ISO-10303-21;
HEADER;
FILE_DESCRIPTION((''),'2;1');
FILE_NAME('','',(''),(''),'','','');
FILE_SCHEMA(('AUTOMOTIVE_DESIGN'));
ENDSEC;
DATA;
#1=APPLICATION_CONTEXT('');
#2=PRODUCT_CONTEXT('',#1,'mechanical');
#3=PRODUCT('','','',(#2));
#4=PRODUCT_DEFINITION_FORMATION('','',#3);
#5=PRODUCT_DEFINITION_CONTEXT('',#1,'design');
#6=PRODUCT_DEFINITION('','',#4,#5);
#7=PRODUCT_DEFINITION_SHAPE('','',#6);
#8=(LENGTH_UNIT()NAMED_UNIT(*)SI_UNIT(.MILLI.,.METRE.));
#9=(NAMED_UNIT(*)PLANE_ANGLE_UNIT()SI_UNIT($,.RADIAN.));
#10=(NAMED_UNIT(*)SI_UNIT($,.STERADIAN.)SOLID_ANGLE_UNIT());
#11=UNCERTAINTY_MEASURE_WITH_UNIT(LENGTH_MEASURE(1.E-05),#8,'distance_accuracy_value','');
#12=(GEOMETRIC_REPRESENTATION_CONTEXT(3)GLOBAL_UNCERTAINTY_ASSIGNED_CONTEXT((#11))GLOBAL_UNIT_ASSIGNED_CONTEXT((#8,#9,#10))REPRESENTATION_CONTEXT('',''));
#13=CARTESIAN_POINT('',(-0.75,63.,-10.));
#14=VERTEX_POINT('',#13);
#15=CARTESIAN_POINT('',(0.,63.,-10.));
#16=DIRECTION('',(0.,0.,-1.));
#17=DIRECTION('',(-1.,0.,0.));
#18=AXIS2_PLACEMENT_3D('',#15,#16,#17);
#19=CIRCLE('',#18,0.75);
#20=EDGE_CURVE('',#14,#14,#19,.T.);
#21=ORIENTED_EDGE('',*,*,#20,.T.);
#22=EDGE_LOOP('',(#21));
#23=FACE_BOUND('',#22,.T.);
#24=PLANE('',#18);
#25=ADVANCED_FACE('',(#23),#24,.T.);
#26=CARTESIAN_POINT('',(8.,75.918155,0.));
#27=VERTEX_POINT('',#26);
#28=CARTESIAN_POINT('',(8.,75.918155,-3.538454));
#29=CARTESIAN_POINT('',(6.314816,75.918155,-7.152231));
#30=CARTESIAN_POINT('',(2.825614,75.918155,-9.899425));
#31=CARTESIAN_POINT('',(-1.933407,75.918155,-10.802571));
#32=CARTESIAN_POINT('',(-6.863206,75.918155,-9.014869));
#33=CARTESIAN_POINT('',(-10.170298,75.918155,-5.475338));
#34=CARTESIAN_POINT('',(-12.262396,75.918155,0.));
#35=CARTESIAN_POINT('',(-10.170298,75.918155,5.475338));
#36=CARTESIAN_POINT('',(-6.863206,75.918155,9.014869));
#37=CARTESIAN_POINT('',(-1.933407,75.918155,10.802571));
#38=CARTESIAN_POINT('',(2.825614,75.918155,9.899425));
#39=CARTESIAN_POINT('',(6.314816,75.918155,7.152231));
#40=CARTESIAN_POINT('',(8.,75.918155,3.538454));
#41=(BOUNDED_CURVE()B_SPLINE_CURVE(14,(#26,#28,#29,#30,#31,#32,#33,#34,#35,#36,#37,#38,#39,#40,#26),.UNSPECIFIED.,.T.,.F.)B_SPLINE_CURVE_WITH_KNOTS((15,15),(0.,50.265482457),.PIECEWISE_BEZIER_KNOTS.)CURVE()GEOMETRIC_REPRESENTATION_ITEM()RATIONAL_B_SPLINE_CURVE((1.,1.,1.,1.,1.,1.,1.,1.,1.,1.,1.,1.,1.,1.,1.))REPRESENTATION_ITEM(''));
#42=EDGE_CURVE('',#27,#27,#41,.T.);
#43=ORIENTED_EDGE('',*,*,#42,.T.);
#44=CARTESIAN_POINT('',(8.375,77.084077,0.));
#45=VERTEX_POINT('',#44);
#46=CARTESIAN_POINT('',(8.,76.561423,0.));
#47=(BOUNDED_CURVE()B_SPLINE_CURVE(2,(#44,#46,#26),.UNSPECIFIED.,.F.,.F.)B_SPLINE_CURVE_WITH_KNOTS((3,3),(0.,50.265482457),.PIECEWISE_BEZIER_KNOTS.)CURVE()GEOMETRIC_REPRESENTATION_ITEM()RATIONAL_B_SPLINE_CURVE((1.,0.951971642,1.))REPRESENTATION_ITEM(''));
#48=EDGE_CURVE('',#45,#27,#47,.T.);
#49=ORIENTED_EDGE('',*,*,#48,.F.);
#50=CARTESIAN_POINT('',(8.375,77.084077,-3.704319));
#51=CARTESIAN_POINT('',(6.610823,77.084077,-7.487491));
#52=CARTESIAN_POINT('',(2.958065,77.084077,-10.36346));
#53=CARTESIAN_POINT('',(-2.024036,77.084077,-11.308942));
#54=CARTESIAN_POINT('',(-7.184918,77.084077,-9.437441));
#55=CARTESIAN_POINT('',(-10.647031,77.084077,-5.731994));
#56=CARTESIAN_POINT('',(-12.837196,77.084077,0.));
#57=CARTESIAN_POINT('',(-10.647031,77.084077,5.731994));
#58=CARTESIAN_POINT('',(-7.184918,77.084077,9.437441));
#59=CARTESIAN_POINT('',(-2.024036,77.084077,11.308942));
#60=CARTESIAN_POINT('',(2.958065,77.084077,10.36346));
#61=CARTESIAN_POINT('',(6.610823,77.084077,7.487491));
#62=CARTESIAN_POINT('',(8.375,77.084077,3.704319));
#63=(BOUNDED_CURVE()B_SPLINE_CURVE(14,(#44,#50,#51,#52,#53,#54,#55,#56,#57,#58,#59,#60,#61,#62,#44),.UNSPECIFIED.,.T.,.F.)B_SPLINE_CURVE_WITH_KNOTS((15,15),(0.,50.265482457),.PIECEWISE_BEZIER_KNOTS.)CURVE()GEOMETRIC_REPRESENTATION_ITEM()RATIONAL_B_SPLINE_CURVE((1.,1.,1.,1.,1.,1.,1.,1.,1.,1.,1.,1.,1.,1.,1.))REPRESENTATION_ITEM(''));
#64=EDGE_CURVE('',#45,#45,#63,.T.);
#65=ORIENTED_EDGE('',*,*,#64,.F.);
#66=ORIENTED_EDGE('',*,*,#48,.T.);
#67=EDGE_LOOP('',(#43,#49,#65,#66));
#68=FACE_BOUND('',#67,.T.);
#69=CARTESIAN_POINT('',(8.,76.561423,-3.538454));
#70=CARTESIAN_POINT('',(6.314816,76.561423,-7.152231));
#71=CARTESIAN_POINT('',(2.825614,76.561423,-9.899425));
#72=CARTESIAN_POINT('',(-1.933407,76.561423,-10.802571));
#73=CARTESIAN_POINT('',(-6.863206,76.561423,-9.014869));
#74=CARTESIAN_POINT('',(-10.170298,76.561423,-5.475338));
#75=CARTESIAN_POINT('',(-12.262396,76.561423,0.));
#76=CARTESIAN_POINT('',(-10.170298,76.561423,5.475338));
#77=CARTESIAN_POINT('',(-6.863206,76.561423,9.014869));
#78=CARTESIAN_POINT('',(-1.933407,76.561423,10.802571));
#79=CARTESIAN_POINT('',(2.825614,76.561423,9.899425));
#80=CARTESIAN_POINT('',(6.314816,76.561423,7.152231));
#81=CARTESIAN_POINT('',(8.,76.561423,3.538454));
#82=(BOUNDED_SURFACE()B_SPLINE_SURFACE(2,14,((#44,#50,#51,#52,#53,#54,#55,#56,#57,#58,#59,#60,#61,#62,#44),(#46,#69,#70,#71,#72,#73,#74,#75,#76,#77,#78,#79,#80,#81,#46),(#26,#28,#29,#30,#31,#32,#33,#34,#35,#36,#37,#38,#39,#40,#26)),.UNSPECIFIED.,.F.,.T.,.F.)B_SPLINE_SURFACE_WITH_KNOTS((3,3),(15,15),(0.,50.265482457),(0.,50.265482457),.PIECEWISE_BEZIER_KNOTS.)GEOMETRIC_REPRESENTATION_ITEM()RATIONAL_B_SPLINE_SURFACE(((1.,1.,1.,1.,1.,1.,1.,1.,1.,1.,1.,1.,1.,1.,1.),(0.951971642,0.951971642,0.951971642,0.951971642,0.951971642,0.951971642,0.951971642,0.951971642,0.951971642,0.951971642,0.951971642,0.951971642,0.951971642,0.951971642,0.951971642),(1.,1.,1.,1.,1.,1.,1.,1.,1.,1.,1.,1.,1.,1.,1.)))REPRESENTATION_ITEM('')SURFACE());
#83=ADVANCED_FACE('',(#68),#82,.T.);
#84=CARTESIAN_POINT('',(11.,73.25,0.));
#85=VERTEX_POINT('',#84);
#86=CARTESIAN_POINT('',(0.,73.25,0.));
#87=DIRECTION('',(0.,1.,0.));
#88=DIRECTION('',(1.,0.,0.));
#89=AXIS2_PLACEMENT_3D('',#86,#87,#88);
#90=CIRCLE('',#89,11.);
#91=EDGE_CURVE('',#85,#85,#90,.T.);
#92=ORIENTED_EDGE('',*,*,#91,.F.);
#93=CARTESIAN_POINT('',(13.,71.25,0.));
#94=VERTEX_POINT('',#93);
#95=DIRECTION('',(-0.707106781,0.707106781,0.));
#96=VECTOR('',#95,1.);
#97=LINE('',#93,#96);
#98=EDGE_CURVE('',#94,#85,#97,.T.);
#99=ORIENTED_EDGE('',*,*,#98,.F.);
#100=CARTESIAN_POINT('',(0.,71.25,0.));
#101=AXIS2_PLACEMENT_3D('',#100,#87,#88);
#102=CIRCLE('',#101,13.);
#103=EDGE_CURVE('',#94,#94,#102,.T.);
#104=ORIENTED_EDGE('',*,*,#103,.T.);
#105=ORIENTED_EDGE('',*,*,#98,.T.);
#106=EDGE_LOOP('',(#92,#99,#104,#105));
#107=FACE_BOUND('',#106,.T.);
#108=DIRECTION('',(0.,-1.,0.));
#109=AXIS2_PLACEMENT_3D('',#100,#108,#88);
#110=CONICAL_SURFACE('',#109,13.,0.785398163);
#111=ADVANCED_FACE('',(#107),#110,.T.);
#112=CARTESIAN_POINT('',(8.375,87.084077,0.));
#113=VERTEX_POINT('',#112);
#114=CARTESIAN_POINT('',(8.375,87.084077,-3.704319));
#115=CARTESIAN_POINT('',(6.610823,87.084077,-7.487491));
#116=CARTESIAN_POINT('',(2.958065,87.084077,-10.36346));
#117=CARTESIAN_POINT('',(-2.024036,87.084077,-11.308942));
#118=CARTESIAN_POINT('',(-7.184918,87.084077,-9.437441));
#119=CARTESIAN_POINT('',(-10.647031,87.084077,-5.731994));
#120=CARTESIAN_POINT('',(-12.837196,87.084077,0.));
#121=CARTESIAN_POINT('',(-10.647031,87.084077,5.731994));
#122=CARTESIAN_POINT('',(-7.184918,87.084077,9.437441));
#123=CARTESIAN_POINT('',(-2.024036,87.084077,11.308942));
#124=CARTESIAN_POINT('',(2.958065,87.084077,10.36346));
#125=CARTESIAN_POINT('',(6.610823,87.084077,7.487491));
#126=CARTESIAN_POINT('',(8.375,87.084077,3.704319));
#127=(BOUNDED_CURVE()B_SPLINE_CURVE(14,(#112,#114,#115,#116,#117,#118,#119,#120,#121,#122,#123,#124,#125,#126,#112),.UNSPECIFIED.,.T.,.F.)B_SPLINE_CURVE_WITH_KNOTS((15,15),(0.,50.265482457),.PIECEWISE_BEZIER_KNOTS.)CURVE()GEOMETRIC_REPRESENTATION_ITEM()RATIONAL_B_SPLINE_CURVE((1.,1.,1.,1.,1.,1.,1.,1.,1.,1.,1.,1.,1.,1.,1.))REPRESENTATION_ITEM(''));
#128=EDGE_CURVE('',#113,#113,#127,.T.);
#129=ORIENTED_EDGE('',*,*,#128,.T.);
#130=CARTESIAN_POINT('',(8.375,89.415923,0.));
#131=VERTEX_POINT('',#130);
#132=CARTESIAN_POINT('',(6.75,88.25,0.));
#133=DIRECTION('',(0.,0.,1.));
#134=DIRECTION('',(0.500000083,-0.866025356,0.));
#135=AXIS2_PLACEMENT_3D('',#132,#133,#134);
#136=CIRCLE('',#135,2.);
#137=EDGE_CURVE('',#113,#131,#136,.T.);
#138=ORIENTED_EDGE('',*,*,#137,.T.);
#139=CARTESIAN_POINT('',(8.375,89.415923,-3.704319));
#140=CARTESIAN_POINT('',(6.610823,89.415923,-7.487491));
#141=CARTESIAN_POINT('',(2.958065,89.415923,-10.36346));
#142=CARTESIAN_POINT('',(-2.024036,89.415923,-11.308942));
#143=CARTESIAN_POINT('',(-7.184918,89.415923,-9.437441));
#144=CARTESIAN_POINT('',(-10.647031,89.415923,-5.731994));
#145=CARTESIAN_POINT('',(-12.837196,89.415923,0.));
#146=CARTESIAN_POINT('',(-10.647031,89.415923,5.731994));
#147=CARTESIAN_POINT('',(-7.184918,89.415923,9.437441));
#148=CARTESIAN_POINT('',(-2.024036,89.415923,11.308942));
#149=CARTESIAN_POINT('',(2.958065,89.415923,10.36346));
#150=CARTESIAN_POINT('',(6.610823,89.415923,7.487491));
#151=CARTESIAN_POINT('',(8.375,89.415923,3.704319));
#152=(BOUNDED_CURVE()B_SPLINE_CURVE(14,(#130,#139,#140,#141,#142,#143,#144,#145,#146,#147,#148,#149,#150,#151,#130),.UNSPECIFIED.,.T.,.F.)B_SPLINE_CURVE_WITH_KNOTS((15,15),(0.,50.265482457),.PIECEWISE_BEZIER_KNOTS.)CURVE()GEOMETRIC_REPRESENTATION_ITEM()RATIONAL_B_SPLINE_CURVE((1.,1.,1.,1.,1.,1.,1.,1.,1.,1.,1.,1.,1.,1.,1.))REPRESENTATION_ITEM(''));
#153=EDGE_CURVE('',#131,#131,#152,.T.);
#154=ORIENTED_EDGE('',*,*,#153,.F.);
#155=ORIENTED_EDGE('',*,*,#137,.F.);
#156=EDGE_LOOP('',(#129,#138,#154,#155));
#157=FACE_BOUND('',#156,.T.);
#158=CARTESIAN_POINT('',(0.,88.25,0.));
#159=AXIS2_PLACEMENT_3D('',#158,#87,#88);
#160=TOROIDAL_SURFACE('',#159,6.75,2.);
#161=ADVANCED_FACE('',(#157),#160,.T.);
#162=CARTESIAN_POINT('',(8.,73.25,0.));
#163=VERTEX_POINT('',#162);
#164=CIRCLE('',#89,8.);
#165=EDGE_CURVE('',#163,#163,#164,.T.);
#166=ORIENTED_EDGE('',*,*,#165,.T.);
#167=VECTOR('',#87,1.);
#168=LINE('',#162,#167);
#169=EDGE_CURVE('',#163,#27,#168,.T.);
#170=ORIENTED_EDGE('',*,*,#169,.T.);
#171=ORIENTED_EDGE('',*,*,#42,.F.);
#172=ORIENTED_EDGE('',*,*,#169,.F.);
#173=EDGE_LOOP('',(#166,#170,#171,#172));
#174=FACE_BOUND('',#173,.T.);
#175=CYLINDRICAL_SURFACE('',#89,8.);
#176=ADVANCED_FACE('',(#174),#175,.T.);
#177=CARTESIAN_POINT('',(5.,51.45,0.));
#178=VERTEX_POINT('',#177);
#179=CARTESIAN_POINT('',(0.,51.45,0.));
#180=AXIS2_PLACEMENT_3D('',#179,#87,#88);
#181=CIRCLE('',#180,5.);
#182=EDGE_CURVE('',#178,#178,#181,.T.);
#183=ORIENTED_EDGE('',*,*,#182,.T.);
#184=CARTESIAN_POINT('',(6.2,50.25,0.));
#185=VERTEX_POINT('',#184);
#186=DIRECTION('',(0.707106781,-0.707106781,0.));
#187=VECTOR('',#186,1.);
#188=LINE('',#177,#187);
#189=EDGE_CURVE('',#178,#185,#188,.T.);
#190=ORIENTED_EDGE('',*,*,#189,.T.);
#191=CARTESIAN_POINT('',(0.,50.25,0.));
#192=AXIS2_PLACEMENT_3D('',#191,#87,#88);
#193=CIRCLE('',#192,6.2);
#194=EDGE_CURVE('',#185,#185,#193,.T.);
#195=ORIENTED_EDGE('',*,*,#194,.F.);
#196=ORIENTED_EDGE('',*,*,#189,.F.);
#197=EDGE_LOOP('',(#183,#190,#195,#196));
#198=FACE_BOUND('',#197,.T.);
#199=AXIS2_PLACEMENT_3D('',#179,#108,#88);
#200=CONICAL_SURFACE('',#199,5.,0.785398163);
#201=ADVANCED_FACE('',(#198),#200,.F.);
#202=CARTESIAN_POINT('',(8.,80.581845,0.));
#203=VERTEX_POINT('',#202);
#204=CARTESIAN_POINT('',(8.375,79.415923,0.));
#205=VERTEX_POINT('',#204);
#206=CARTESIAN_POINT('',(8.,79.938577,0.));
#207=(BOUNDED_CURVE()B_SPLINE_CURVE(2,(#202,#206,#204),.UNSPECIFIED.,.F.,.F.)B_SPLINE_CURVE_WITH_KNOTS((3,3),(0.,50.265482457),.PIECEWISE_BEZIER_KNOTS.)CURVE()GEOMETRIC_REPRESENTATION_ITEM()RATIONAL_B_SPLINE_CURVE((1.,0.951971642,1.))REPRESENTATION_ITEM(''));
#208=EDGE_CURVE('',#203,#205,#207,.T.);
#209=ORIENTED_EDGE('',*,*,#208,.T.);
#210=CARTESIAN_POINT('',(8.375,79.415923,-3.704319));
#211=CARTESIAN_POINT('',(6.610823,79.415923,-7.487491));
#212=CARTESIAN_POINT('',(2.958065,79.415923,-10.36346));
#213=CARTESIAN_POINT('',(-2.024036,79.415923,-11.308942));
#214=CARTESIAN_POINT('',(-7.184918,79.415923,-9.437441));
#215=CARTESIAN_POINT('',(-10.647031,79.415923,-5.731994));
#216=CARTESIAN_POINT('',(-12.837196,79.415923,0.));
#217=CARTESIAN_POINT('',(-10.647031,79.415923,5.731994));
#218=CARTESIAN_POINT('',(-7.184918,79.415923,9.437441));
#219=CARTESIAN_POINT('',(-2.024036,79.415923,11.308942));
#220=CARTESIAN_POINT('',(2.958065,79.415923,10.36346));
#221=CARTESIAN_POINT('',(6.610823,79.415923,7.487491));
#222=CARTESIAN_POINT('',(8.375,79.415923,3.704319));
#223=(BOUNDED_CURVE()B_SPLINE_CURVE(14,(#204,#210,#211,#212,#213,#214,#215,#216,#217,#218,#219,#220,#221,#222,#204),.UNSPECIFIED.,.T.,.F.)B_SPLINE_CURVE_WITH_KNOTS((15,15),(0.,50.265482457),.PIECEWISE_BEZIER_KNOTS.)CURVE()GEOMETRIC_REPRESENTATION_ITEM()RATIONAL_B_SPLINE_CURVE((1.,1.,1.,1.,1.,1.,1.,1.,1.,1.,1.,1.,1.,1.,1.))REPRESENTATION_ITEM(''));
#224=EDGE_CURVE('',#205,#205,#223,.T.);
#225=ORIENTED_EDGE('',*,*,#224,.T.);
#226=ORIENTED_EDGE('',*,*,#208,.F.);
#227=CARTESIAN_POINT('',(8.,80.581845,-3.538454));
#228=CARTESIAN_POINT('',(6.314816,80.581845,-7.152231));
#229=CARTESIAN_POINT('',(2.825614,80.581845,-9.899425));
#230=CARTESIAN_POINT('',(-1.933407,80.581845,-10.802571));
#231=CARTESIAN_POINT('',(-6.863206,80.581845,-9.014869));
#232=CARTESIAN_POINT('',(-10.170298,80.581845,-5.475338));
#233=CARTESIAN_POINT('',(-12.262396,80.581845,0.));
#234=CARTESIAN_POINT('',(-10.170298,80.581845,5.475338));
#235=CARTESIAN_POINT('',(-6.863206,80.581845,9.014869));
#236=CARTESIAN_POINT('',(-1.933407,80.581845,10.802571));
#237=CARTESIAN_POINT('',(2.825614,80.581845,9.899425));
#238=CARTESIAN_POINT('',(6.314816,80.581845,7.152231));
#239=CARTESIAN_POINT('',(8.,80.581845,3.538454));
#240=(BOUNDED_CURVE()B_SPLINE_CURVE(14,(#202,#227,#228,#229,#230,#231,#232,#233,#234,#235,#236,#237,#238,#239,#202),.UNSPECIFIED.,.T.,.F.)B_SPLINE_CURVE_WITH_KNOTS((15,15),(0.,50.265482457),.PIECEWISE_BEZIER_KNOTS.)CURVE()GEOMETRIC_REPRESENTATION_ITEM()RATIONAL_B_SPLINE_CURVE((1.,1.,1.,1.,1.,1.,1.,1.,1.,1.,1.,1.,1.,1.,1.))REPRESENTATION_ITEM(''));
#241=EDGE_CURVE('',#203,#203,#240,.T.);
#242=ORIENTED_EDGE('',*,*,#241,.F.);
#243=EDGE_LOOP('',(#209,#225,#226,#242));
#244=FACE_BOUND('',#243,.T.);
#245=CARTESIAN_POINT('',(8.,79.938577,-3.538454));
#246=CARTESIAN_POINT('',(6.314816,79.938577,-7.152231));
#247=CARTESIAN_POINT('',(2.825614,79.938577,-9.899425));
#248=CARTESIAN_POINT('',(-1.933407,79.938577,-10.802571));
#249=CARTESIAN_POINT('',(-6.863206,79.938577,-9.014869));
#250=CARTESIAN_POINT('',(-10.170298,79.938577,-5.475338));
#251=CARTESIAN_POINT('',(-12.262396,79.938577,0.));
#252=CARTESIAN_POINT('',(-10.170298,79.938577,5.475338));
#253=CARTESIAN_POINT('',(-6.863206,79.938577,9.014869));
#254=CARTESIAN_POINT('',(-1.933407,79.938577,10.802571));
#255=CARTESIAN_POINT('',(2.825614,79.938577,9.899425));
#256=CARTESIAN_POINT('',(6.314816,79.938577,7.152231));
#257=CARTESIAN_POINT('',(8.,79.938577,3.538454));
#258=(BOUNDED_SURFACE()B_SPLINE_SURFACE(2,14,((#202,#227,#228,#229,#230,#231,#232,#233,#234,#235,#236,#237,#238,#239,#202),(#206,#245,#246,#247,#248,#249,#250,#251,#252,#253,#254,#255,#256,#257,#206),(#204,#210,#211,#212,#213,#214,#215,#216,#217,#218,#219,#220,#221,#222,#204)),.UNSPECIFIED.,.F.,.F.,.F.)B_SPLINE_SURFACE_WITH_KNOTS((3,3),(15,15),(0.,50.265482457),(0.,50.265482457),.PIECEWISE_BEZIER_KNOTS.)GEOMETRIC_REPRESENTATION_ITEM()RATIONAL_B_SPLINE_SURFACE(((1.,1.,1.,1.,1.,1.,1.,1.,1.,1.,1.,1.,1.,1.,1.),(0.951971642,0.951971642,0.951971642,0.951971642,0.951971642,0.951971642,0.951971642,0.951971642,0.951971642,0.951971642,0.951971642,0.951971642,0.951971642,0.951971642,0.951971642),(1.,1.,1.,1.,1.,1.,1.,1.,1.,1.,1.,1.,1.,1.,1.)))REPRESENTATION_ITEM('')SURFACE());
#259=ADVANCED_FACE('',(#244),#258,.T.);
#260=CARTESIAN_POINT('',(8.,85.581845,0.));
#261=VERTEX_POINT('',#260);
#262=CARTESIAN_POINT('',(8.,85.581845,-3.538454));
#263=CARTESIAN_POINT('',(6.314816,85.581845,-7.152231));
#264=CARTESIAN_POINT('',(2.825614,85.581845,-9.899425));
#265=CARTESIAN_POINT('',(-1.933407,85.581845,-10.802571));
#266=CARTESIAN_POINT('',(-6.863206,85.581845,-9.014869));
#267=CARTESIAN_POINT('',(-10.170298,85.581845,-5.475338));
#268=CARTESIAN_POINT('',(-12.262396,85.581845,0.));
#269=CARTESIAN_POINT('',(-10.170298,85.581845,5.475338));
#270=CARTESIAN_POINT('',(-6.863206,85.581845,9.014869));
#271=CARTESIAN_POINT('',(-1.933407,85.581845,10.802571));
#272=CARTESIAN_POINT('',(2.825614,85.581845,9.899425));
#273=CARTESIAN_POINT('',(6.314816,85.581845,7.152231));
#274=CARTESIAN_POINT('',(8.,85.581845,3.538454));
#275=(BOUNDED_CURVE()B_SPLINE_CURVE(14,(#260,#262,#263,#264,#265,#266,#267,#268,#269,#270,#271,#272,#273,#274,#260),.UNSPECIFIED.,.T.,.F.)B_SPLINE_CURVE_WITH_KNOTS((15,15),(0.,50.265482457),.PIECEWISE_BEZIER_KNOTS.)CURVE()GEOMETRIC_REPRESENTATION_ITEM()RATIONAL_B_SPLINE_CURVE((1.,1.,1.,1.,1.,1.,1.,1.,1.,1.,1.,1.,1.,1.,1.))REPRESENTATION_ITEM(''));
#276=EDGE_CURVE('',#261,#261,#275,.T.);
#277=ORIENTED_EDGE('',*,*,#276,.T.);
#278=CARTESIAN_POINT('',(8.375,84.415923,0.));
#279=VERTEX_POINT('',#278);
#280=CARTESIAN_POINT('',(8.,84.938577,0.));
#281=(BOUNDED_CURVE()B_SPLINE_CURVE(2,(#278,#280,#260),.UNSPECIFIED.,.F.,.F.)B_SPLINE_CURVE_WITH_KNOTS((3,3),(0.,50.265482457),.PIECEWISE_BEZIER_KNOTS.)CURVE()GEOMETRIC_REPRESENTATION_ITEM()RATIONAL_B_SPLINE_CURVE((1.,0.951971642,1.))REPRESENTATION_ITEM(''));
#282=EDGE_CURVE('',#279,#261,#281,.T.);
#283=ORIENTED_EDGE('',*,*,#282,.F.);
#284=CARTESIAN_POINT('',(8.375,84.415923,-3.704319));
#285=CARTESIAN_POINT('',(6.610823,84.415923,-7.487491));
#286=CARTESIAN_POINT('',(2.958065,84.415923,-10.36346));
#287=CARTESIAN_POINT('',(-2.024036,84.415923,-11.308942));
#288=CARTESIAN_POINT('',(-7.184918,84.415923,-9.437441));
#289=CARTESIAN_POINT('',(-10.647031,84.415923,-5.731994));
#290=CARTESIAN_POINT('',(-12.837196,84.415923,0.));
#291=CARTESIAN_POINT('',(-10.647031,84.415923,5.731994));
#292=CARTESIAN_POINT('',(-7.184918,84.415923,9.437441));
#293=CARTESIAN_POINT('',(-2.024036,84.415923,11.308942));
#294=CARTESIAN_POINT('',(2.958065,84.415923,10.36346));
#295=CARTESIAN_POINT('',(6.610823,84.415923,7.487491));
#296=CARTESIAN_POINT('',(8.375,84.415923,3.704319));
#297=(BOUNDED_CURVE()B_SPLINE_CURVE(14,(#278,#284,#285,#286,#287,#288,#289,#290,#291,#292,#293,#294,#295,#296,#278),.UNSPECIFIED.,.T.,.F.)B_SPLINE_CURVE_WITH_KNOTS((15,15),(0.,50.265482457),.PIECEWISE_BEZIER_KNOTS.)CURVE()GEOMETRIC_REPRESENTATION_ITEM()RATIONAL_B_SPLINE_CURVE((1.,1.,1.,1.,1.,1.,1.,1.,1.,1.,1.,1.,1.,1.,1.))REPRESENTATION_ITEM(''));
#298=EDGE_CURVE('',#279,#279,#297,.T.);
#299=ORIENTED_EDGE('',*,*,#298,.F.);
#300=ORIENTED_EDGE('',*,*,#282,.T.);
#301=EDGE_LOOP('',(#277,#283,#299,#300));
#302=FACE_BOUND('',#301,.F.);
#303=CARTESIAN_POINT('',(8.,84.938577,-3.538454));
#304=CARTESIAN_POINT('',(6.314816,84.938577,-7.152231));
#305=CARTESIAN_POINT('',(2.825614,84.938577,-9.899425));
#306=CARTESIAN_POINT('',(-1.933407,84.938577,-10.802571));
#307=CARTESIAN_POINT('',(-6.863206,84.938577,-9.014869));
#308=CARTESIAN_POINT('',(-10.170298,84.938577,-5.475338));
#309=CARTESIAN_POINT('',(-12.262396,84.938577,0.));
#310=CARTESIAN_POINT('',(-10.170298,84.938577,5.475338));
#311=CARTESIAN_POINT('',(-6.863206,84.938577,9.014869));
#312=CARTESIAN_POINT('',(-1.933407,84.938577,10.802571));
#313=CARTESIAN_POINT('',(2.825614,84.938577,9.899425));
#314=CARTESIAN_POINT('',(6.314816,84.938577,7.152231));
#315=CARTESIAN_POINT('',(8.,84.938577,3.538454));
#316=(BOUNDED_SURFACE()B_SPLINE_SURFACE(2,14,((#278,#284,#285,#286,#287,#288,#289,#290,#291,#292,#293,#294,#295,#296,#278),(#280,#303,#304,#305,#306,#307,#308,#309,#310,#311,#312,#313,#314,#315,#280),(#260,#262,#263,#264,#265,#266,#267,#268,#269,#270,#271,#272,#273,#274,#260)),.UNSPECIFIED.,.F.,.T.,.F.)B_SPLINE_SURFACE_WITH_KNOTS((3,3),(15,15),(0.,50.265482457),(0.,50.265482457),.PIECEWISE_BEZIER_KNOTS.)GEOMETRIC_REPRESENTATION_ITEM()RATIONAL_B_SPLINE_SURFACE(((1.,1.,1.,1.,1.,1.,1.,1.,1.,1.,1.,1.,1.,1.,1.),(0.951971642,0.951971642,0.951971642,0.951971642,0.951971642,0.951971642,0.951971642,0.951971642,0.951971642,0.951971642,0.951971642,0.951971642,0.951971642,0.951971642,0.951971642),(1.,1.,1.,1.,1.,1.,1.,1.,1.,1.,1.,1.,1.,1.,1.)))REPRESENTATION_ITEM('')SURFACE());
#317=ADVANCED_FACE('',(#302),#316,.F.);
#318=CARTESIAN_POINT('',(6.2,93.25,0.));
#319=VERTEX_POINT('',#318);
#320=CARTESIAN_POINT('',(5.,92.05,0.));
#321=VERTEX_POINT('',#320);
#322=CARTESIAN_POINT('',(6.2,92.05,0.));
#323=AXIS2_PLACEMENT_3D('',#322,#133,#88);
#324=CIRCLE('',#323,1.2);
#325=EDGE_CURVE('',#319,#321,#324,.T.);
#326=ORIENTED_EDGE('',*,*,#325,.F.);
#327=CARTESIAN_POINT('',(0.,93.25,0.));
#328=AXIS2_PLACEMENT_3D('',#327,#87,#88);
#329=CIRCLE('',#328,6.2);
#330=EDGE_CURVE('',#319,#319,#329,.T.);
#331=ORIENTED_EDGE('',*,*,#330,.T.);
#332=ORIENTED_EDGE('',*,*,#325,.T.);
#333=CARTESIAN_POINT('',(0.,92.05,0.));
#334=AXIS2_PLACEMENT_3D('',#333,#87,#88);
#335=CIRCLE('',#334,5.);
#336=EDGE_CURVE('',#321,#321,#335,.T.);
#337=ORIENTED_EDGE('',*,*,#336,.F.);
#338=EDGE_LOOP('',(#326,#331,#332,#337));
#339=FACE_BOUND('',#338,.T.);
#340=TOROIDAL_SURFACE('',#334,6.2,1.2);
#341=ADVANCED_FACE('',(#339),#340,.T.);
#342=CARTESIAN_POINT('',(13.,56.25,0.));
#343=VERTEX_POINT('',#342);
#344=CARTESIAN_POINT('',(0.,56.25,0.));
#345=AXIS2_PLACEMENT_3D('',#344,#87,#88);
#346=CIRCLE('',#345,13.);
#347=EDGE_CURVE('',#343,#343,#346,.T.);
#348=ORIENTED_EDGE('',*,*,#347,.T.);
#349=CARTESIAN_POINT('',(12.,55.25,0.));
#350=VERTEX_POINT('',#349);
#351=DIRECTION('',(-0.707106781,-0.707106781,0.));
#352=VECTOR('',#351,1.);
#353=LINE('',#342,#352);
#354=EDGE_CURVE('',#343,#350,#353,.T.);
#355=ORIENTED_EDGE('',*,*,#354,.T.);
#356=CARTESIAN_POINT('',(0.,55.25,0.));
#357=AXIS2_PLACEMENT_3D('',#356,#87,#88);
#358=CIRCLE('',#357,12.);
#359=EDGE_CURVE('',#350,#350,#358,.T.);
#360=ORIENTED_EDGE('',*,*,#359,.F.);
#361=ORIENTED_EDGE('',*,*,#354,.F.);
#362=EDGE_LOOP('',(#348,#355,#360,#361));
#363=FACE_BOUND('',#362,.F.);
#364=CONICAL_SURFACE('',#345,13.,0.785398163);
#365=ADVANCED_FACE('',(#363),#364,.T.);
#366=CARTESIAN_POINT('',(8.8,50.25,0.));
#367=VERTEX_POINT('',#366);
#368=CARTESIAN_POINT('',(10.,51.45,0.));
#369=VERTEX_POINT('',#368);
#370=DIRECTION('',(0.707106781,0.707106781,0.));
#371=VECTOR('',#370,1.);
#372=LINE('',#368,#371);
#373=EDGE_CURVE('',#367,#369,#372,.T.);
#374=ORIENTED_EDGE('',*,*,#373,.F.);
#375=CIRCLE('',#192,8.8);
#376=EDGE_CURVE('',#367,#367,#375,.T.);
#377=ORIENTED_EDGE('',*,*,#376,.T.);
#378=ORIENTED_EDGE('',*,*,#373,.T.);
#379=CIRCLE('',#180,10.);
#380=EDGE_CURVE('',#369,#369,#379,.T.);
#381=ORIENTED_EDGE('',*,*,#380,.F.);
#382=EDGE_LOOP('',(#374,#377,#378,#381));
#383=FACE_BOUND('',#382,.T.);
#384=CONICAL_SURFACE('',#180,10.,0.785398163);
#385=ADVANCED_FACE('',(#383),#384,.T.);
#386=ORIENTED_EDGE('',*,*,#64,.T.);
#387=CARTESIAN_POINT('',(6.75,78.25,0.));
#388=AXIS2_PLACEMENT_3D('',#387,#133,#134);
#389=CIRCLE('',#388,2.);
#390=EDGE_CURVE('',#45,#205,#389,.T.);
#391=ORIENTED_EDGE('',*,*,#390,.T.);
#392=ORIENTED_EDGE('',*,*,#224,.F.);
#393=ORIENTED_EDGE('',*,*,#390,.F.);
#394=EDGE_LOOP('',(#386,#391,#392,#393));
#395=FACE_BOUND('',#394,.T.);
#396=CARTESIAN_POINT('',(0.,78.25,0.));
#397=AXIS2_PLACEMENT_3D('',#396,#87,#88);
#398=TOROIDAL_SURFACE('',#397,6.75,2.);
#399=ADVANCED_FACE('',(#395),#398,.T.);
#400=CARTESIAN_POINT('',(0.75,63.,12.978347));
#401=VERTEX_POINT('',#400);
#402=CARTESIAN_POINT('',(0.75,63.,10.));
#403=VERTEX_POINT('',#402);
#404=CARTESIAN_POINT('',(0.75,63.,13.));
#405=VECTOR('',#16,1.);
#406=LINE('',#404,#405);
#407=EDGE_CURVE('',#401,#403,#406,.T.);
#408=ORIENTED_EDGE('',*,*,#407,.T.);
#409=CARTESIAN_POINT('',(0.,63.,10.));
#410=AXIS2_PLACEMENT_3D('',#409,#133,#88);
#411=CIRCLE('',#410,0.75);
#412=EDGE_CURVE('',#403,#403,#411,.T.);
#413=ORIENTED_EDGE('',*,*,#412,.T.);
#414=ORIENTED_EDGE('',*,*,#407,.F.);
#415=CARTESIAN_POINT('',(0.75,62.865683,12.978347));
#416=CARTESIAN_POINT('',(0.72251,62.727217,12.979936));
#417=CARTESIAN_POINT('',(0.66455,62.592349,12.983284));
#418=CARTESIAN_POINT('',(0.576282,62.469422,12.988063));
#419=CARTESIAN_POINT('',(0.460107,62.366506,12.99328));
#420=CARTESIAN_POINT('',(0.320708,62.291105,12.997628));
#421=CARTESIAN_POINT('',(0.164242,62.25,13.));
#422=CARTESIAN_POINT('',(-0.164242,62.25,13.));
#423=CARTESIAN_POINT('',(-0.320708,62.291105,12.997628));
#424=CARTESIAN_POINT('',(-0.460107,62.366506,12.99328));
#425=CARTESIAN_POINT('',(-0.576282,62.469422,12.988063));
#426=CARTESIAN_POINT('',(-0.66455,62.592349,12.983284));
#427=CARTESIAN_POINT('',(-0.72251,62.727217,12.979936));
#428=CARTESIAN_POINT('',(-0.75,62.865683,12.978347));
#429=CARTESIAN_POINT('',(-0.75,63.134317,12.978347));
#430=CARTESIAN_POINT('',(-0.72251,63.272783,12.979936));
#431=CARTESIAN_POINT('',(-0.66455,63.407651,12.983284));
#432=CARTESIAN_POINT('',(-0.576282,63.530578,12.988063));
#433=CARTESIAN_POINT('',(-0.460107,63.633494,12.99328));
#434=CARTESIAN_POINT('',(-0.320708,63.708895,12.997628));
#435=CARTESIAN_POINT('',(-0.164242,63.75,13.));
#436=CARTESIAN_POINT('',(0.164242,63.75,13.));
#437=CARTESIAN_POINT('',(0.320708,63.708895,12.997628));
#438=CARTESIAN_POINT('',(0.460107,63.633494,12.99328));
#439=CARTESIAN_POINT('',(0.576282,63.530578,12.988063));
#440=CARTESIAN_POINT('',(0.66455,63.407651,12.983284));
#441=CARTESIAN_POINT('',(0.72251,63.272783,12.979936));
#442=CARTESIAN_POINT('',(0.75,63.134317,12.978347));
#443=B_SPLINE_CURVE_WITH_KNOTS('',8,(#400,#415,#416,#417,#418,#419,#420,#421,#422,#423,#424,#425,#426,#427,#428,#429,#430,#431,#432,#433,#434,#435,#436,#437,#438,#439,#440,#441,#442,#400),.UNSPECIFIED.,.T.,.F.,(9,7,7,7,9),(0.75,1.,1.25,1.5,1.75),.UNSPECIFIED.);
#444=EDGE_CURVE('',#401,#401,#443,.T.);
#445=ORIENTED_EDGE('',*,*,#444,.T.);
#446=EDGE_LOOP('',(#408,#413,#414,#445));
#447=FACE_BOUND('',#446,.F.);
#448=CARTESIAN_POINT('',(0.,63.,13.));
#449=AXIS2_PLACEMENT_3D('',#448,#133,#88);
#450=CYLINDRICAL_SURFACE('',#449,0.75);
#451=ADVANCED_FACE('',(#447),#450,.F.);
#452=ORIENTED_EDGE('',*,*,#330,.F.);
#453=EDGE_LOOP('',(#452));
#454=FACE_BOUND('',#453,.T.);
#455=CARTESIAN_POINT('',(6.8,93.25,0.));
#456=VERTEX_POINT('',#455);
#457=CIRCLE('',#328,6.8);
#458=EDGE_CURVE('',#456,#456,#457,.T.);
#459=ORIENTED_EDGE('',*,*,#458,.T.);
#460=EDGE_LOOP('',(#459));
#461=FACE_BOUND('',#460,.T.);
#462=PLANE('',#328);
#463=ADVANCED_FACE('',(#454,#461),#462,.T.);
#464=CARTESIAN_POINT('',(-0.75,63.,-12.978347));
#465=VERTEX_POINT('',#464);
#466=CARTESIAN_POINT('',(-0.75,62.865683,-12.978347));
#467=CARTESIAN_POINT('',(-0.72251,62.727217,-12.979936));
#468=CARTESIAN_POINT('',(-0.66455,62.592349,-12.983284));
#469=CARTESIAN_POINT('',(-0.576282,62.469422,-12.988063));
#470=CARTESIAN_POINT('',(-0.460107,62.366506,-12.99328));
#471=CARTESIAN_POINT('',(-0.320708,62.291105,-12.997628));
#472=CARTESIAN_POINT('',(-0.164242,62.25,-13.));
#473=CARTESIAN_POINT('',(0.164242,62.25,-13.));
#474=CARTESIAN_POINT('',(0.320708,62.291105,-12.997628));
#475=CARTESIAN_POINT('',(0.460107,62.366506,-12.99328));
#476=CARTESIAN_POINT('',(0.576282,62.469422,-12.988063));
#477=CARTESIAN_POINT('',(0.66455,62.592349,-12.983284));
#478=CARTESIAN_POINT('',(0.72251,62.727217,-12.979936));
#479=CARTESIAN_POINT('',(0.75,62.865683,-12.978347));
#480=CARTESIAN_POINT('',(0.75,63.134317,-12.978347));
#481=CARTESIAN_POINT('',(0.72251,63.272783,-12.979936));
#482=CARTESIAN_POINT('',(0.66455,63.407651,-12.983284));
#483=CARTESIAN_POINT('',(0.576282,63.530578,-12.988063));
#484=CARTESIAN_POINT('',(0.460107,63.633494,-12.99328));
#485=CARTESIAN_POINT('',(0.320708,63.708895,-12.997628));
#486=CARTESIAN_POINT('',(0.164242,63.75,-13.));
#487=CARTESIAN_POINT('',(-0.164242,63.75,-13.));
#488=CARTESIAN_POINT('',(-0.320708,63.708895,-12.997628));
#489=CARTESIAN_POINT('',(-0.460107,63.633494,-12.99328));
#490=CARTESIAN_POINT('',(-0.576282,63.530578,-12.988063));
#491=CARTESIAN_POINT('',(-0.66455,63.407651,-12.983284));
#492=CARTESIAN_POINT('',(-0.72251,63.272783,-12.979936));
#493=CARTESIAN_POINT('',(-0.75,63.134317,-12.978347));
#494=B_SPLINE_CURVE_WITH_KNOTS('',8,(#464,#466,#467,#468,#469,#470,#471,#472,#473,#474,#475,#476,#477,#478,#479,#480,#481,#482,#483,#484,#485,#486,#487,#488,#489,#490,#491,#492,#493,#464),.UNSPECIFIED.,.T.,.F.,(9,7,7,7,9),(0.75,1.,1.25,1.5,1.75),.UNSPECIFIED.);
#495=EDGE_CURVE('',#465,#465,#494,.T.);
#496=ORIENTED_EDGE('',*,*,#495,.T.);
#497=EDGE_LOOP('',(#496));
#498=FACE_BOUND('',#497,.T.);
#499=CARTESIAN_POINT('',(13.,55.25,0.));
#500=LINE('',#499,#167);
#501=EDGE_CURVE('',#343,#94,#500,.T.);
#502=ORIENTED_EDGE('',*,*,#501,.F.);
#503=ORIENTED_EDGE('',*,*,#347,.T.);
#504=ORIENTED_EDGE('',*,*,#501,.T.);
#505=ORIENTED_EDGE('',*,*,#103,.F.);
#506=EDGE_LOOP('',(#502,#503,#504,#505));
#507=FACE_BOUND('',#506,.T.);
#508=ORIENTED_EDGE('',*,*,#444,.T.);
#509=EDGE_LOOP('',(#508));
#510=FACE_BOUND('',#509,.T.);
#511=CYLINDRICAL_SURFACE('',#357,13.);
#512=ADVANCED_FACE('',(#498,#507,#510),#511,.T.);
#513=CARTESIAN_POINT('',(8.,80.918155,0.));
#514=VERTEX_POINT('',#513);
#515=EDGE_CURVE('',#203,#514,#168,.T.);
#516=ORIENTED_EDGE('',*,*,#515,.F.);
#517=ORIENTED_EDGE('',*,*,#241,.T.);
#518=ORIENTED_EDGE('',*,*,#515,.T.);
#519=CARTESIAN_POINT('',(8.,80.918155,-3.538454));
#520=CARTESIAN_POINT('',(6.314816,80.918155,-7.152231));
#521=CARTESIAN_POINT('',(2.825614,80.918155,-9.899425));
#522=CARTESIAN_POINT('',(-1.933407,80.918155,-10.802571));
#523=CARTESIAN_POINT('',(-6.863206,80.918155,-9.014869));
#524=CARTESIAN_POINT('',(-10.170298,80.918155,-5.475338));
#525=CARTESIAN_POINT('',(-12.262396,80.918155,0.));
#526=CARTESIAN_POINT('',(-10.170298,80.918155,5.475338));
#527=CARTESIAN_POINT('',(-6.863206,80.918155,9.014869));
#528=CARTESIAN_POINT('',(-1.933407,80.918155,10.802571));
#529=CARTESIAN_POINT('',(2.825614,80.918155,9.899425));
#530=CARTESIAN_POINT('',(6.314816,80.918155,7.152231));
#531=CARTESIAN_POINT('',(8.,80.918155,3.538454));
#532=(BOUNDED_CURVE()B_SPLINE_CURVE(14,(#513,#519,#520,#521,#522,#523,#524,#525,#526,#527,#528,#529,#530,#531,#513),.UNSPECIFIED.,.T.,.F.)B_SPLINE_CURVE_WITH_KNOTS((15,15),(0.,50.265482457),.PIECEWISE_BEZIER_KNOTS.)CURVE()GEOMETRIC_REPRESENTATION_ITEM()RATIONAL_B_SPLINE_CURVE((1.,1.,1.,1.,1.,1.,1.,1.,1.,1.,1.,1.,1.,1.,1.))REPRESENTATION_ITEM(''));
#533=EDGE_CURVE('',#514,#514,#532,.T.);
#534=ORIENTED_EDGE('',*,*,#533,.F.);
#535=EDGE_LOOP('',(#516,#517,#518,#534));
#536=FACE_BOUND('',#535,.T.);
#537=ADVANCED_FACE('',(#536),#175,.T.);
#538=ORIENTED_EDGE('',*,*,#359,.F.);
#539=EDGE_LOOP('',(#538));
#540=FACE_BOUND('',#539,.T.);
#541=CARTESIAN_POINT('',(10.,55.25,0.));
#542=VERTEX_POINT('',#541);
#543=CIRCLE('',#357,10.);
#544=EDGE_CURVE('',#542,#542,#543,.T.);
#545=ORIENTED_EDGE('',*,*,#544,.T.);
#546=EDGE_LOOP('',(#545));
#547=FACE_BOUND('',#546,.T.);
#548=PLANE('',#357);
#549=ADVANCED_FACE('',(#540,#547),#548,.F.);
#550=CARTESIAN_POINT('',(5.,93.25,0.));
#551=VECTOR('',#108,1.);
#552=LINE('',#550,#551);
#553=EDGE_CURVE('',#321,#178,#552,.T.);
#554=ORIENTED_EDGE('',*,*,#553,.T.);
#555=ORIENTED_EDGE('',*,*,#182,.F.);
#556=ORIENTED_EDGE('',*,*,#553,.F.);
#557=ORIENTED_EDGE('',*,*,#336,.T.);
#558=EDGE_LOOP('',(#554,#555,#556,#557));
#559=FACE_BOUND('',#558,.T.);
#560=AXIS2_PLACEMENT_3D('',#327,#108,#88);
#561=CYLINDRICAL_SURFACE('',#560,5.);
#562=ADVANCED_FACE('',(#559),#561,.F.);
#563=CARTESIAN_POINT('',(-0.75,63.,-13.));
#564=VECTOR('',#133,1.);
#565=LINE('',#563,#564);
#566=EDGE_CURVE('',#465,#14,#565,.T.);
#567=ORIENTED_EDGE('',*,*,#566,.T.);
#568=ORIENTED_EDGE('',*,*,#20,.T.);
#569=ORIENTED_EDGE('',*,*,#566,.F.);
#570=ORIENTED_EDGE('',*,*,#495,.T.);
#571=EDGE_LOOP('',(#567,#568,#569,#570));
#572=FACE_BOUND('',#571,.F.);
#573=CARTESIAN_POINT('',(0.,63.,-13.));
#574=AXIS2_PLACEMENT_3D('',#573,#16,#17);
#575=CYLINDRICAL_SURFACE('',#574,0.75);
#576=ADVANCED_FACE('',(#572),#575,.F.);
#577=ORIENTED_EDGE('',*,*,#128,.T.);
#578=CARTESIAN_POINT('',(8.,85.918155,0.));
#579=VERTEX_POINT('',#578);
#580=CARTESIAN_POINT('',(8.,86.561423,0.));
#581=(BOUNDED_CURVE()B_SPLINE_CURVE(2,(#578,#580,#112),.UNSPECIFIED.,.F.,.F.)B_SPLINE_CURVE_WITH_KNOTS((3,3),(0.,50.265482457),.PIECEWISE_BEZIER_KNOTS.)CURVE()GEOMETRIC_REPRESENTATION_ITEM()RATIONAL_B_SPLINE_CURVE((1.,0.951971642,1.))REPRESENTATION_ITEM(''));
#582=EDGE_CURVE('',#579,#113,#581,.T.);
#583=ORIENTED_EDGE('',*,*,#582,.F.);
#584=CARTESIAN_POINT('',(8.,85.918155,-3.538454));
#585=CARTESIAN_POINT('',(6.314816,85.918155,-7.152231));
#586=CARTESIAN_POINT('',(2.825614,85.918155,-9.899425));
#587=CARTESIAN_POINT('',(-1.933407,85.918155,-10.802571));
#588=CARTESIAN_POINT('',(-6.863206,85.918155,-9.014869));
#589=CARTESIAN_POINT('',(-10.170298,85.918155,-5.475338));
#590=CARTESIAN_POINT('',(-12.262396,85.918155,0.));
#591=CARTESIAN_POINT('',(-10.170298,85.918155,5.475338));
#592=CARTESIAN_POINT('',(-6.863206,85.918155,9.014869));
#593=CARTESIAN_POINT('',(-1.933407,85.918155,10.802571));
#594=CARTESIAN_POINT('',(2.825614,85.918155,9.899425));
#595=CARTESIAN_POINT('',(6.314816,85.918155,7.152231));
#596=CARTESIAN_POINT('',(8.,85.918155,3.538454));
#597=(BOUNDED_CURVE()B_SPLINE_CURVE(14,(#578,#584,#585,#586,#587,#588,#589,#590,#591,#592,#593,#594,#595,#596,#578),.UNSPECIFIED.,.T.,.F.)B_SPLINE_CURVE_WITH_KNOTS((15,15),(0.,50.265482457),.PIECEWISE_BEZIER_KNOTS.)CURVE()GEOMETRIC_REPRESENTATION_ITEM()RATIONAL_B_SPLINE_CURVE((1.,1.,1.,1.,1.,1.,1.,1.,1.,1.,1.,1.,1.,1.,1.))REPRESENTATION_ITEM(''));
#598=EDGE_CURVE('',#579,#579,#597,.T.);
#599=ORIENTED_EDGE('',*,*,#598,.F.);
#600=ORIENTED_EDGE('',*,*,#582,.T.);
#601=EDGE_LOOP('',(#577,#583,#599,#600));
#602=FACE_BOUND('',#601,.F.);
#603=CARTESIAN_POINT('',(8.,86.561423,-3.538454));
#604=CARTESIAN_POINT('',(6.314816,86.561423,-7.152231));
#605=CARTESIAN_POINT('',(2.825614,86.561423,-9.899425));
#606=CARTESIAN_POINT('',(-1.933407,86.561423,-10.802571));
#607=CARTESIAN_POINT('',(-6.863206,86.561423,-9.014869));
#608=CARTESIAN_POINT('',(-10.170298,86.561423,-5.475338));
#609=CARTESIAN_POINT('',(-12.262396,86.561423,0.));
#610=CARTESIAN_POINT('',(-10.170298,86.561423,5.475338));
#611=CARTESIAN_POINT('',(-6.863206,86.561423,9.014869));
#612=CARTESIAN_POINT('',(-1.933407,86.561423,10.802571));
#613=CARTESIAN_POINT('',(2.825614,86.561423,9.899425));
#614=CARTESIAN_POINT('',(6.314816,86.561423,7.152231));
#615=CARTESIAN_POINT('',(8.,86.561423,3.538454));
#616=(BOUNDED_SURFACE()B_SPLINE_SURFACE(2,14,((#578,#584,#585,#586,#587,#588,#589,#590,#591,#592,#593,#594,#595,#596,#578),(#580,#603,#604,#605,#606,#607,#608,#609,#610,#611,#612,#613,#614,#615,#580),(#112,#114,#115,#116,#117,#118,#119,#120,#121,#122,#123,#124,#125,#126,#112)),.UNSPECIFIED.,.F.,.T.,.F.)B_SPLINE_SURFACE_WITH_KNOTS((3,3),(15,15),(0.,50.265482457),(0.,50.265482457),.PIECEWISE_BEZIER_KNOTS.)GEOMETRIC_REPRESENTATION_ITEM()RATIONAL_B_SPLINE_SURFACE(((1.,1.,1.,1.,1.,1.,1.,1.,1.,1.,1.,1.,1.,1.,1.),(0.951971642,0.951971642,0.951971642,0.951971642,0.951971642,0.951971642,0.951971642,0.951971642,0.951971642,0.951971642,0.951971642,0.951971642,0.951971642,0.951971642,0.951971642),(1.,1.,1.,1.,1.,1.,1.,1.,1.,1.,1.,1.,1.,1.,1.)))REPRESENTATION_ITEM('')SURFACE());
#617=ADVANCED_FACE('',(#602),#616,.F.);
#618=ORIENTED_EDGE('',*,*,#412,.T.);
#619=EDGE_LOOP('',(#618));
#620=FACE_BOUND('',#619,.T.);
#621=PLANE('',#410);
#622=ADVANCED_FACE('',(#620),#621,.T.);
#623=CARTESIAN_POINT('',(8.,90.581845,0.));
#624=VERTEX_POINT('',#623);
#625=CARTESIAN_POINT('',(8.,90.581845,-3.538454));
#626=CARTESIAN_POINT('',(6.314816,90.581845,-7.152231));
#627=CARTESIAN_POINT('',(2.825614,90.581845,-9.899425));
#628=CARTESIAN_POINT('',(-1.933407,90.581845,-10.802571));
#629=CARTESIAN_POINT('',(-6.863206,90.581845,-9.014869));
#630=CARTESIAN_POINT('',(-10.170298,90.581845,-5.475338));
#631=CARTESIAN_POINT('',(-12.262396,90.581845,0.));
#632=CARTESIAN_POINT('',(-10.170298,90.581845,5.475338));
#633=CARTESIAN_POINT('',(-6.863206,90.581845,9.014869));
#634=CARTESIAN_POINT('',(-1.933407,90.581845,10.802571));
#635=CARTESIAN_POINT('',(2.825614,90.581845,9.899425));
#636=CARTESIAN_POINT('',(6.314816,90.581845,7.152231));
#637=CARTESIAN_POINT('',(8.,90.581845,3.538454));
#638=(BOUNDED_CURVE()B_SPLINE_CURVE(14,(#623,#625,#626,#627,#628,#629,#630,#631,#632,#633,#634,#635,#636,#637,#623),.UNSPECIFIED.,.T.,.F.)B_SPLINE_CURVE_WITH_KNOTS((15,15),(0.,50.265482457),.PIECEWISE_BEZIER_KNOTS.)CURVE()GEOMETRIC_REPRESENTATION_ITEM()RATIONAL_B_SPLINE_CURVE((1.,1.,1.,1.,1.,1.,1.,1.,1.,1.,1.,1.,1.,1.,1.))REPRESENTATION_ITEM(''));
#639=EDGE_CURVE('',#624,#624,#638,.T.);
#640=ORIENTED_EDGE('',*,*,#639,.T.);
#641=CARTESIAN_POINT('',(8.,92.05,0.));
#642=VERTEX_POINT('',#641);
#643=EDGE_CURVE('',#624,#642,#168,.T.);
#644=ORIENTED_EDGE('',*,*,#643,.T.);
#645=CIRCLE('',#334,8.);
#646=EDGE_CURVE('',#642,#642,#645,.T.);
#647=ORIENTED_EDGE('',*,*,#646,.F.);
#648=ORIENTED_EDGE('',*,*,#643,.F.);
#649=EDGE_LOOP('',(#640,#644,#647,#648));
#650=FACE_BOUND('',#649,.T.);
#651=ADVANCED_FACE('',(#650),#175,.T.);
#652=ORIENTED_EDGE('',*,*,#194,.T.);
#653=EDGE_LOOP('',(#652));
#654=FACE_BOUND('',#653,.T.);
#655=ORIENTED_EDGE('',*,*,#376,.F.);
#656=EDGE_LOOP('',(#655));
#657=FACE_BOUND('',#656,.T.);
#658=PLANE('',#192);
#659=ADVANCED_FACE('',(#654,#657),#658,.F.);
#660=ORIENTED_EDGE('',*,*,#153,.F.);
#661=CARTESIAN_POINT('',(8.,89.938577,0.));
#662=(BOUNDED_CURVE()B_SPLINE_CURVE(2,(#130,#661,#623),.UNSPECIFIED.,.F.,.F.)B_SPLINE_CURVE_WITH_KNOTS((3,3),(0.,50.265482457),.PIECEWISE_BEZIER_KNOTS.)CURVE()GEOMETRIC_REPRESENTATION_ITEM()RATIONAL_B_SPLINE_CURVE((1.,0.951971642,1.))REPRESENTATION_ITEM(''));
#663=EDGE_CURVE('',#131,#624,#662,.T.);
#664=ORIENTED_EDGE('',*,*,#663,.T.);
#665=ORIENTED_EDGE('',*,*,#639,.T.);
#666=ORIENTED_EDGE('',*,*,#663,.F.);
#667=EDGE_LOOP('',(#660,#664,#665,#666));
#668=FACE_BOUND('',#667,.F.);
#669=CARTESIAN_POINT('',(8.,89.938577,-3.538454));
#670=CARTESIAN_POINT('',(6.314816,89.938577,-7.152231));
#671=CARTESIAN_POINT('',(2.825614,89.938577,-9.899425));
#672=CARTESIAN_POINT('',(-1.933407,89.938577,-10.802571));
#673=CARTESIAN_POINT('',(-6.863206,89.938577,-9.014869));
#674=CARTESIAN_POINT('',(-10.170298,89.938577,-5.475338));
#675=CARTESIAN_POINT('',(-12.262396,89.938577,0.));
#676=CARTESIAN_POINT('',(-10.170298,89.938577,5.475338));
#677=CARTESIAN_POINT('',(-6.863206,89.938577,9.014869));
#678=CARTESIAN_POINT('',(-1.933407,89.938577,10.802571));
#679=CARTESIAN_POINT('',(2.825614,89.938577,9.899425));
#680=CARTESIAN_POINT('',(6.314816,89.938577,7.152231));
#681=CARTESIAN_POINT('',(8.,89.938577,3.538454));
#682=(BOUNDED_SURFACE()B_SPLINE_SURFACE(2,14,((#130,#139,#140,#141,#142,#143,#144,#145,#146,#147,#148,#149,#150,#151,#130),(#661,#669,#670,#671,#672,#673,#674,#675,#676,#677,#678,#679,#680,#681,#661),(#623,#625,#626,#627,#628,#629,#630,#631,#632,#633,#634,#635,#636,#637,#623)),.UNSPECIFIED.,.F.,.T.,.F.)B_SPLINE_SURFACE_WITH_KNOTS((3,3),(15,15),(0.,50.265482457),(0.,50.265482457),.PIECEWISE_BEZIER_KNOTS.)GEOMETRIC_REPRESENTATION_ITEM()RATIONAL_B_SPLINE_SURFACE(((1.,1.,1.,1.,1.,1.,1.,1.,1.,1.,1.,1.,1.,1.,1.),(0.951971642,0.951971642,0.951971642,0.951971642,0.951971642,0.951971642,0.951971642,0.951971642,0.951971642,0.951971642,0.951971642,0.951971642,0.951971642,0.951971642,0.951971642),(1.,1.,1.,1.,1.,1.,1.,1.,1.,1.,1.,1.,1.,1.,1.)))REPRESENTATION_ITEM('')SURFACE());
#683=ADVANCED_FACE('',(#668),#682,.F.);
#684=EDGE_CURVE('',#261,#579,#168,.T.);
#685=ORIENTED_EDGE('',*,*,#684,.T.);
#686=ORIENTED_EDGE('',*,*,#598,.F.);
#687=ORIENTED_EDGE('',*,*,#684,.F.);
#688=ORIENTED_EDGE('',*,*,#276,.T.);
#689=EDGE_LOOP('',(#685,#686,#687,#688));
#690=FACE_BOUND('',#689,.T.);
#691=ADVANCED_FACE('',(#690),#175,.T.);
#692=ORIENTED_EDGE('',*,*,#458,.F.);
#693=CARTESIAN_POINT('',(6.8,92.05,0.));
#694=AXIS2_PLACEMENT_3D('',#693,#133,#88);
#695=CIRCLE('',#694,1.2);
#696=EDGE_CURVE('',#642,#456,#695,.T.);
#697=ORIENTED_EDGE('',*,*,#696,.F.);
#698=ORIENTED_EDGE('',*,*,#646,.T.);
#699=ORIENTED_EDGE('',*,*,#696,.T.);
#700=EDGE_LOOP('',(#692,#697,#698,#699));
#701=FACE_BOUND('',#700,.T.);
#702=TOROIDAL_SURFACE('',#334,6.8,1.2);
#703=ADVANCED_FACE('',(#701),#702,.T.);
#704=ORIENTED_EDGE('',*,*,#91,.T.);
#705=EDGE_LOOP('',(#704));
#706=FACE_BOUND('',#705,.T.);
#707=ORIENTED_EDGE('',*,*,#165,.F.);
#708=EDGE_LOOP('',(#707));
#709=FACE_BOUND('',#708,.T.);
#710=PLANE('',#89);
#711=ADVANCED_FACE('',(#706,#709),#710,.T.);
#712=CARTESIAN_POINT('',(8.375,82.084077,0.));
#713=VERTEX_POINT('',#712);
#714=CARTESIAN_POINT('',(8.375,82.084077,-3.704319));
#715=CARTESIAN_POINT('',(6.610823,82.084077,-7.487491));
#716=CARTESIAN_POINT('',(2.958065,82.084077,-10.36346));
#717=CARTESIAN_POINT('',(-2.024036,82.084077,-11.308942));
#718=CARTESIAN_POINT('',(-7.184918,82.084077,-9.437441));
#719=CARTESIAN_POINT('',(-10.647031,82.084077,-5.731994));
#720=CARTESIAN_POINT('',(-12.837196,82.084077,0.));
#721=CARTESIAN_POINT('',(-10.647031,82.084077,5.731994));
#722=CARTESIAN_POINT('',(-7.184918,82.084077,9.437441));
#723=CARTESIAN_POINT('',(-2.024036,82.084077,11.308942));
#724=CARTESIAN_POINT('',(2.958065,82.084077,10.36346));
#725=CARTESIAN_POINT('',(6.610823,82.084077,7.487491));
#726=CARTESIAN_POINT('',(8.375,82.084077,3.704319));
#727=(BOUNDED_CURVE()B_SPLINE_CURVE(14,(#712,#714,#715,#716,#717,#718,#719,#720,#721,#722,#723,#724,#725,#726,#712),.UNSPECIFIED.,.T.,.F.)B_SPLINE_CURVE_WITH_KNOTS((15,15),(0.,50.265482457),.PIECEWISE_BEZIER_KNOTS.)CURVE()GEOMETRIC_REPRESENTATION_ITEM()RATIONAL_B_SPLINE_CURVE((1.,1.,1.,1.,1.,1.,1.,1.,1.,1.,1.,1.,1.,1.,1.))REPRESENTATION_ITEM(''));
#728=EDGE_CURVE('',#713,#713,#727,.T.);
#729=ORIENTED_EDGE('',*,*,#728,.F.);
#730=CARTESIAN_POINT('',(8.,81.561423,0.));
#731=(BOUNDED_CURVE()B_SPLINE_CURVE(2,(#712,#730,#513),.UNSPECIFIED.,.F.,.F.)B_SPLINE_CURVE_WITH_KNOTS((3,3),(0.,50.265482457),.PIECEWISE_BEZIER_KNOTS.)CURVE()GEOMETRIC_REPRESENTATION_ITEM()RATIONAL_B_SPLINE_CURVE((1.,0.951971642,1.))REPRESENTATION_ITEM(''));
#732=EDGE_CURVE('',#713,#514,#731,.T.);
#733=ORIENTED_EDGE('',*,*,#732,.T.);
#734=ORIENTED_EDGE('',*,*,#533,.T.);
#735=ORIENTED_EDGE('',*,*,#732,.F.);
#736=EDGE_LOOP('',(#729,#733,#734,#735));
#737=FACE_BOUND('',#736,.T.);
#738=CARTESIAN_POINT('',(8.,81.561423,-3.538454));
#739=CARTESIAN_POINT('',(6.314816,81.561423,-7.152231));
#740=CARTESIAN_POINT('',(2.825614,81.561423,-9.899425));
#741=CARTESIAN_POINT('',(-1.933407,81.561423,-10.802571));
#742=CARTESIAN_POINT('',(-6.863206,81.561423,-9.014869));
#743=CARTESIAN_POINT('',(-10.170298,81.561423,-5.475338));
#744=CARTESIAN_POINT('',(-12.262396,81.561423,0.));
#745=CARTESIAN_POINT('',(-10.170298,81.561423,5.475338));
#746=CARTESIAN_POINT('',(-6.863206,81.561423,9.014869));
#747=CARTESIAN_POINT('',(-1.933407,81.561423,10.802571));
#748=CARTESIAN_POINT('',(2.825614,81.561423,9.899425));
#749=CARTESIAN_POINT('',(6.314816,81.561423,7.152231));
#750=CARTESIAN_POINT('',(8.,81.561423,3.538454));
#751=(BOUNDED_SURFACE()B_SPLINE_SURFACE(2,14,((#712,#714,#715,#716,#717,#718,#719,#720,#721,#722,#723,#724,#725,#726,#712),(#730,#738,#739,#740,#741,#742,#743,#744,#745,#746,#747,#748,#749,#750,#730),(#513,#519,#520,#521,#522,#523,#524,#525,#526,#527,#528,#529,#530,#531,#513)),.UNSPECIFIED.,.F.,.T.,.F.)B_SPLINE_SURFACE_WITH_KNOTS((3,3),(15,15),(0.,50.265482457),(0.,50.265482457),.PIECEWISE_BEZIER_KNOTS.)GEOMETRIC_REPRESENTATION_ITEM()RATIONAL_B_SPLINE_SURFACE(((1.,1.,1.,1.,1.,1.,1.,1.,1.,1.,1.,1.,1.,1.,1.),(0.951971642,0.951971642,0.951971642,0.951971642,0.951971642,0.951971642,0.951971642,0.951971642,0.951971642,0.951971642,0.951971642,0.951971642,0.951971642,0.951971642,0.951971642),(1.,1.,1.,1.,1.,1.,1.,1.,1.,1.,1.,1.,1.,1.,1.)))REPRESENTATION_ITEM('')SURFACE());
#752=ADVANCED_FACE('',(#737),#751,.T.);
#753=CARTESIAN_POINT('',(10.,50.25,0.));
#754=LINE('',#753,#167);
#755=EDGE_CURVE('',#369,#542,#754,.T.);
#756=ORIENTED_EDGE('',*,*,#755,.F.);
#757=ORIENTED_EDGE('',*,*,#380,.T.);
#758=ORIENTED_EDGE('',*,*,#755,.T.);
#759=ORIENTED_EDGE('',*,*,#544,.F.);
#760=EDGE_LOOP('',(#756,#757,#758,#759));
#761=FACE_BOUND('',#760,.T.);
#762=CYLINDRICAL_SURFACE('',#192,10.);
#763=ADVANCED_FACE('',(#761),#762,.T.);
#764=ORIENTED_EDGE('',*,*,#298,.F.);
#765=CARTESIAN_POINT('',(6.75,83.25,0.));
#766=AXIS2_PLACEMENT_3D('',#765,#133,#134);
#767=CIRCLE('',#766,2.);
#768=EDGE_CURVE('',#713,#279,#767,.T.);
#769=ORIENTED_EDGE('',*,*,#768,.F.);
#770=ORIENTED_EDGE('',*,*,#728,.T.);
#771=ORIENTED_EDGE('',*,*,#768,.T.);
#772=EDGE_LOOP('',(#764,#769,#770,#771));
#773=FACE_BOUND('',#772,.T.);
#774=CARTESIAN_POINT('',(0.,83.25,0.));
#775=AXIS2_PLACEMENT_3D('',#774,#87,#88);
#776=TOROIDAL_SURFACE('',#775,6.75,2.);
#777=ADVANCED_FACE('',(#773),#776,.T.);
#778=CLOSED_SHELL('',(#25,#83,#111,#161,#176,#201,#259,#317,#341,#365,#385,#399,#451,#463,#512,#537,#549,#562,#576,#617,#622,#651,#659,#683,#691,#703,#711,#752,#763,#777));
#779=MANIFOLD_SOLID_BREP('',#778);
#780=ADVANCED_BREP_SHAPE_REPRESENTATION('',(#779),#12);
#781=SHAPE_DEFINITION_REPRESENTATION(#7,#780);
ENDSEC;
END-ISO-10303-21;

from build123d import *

# Parameters (mm, degrees)
CHAMFER001_SIZE     = 1.2
CHAMFER002_SIZE     = 1
CHAMFER003_SIZE     = 2
FILLET010_R         = 1.2
SKETCH030_R         = 0.75
POCKET007_DEPTH     = 3
POLARPATTERN_COUNT  = 2
POLARPATTERN_ANGLE  = 180
LINEARPATTERN_COUNT = 3
LINEARPATTERN_PITCH = 5
FILLET011_R         = 2


with BuildPart() as part:
    # Sketch027 → Revolution (revolve)
    with BuildSketch(Plane.XY):
        Polygon((5, 43), (5, 0), (10, 0), (10, 5), (13, 5), (13, 23), (8, 23), (8, 43), align=None)
    revolve(axis=Axis((0, 0, 0), (0, 1, 0)))

    # Chamfer001
    chamfer001_edges = [part.edges().sort_by_distance(p)[0] for p in [
        (-5, 0, 0),
        (-10, 0, 0),
    ]]
    chamfer(chamfer001_edges, length=CHAMFER001_SIZE)

    # Chamfer002
    chamfer002_edges = [part.edges().sort_by_distance(p)[0] for p in [
        (-13, 5, 0),
    ]]
    chamfer(chamfer002_edges, length=CHAMFER002_SIZE)

    # Chamfer003
    chamfer003_edges = [part.edges().sort_by_distance(p)[0] for p in [
        (-13, 23, 0),
    ]]
    chamfer(chamfer003_edges, length=CHAMFER003_SIZE)

    # Fillet010
    fillet010_edges = [part.edges().sort_by_distance(p)[0] for p in [
        (-8, 43, 0),
        (-5, 43, 0),
    ]]
    fillet(fillet010_edges, radius=FILLET010_R)

    # Sketch030 (on DatumPlane) → Pocket007 (cut)
    with BuildSketch(Plane.XY.offset(13)):
        with Locations((0, 12.75)):
            Circle(SKETCH030_R)
    pocket007 = extrude(amount=-POCKET007_DEPTH, mode=Mode.SUBTRACT)

    # PolarPattern: Pocket007 ×2 about axis
    polarpattern_axis = Axis((0, 0, 0), (0, 1, 0))
    for i in range(1, POLARPATTERN_COUNT):
        add(pocket007.rotate(polarpattern_axis, i * POLARPATTERN_ANGLE / (POLARPATTERN_COUNT - 1)), mode=Mode.SUBTRACT)

    # Sketch031 → Revolution001 (revolve)
    with BuildSketch(Plane.XY):
        with BuildLine():
            ThreePointArc((7.75, 36.267949), (8.75, 38), (7.75, 39.732051))
            Line((7.75, 39.732051), (7.75, 36.267949))
        make_face()
    revolution001 = revolve(axis=Axis((0, 0, 0), (0, 1, 0)))

    # LinearPattern: Revolution001 ×3
    with Locations(*[(0, -i * LINEARPATTERN_PITCH, 0) for i in range(1, LINEARPATTERN_COUNT)]):
        add(revolution001)

    # Fillet011
    fillet011_edges = [part.edges().sort_by_distance(p)[0] for p in [
        (-8, 34.561249, 0),
        (8, 35.5, 0),
        (-8, 36.438751, 0),
        (-8, 29.561249, 0),
        (8, 30.5, 0),
        (-8, 31.438751, 0),
        (-8, 39.561249, 0),
        (8, 40.680625, 0),
        (-8, 41.8, 0),
        (-8, 26.438751, 0),
    ]]
    fillet(fillet011_edges, radius=FILLET011_R)


with BuildPart() as part_1:
    # Body006 placement: moved
    add(part.part.moved(Location((0, 50.25, 0))))


solid = part_1.part
